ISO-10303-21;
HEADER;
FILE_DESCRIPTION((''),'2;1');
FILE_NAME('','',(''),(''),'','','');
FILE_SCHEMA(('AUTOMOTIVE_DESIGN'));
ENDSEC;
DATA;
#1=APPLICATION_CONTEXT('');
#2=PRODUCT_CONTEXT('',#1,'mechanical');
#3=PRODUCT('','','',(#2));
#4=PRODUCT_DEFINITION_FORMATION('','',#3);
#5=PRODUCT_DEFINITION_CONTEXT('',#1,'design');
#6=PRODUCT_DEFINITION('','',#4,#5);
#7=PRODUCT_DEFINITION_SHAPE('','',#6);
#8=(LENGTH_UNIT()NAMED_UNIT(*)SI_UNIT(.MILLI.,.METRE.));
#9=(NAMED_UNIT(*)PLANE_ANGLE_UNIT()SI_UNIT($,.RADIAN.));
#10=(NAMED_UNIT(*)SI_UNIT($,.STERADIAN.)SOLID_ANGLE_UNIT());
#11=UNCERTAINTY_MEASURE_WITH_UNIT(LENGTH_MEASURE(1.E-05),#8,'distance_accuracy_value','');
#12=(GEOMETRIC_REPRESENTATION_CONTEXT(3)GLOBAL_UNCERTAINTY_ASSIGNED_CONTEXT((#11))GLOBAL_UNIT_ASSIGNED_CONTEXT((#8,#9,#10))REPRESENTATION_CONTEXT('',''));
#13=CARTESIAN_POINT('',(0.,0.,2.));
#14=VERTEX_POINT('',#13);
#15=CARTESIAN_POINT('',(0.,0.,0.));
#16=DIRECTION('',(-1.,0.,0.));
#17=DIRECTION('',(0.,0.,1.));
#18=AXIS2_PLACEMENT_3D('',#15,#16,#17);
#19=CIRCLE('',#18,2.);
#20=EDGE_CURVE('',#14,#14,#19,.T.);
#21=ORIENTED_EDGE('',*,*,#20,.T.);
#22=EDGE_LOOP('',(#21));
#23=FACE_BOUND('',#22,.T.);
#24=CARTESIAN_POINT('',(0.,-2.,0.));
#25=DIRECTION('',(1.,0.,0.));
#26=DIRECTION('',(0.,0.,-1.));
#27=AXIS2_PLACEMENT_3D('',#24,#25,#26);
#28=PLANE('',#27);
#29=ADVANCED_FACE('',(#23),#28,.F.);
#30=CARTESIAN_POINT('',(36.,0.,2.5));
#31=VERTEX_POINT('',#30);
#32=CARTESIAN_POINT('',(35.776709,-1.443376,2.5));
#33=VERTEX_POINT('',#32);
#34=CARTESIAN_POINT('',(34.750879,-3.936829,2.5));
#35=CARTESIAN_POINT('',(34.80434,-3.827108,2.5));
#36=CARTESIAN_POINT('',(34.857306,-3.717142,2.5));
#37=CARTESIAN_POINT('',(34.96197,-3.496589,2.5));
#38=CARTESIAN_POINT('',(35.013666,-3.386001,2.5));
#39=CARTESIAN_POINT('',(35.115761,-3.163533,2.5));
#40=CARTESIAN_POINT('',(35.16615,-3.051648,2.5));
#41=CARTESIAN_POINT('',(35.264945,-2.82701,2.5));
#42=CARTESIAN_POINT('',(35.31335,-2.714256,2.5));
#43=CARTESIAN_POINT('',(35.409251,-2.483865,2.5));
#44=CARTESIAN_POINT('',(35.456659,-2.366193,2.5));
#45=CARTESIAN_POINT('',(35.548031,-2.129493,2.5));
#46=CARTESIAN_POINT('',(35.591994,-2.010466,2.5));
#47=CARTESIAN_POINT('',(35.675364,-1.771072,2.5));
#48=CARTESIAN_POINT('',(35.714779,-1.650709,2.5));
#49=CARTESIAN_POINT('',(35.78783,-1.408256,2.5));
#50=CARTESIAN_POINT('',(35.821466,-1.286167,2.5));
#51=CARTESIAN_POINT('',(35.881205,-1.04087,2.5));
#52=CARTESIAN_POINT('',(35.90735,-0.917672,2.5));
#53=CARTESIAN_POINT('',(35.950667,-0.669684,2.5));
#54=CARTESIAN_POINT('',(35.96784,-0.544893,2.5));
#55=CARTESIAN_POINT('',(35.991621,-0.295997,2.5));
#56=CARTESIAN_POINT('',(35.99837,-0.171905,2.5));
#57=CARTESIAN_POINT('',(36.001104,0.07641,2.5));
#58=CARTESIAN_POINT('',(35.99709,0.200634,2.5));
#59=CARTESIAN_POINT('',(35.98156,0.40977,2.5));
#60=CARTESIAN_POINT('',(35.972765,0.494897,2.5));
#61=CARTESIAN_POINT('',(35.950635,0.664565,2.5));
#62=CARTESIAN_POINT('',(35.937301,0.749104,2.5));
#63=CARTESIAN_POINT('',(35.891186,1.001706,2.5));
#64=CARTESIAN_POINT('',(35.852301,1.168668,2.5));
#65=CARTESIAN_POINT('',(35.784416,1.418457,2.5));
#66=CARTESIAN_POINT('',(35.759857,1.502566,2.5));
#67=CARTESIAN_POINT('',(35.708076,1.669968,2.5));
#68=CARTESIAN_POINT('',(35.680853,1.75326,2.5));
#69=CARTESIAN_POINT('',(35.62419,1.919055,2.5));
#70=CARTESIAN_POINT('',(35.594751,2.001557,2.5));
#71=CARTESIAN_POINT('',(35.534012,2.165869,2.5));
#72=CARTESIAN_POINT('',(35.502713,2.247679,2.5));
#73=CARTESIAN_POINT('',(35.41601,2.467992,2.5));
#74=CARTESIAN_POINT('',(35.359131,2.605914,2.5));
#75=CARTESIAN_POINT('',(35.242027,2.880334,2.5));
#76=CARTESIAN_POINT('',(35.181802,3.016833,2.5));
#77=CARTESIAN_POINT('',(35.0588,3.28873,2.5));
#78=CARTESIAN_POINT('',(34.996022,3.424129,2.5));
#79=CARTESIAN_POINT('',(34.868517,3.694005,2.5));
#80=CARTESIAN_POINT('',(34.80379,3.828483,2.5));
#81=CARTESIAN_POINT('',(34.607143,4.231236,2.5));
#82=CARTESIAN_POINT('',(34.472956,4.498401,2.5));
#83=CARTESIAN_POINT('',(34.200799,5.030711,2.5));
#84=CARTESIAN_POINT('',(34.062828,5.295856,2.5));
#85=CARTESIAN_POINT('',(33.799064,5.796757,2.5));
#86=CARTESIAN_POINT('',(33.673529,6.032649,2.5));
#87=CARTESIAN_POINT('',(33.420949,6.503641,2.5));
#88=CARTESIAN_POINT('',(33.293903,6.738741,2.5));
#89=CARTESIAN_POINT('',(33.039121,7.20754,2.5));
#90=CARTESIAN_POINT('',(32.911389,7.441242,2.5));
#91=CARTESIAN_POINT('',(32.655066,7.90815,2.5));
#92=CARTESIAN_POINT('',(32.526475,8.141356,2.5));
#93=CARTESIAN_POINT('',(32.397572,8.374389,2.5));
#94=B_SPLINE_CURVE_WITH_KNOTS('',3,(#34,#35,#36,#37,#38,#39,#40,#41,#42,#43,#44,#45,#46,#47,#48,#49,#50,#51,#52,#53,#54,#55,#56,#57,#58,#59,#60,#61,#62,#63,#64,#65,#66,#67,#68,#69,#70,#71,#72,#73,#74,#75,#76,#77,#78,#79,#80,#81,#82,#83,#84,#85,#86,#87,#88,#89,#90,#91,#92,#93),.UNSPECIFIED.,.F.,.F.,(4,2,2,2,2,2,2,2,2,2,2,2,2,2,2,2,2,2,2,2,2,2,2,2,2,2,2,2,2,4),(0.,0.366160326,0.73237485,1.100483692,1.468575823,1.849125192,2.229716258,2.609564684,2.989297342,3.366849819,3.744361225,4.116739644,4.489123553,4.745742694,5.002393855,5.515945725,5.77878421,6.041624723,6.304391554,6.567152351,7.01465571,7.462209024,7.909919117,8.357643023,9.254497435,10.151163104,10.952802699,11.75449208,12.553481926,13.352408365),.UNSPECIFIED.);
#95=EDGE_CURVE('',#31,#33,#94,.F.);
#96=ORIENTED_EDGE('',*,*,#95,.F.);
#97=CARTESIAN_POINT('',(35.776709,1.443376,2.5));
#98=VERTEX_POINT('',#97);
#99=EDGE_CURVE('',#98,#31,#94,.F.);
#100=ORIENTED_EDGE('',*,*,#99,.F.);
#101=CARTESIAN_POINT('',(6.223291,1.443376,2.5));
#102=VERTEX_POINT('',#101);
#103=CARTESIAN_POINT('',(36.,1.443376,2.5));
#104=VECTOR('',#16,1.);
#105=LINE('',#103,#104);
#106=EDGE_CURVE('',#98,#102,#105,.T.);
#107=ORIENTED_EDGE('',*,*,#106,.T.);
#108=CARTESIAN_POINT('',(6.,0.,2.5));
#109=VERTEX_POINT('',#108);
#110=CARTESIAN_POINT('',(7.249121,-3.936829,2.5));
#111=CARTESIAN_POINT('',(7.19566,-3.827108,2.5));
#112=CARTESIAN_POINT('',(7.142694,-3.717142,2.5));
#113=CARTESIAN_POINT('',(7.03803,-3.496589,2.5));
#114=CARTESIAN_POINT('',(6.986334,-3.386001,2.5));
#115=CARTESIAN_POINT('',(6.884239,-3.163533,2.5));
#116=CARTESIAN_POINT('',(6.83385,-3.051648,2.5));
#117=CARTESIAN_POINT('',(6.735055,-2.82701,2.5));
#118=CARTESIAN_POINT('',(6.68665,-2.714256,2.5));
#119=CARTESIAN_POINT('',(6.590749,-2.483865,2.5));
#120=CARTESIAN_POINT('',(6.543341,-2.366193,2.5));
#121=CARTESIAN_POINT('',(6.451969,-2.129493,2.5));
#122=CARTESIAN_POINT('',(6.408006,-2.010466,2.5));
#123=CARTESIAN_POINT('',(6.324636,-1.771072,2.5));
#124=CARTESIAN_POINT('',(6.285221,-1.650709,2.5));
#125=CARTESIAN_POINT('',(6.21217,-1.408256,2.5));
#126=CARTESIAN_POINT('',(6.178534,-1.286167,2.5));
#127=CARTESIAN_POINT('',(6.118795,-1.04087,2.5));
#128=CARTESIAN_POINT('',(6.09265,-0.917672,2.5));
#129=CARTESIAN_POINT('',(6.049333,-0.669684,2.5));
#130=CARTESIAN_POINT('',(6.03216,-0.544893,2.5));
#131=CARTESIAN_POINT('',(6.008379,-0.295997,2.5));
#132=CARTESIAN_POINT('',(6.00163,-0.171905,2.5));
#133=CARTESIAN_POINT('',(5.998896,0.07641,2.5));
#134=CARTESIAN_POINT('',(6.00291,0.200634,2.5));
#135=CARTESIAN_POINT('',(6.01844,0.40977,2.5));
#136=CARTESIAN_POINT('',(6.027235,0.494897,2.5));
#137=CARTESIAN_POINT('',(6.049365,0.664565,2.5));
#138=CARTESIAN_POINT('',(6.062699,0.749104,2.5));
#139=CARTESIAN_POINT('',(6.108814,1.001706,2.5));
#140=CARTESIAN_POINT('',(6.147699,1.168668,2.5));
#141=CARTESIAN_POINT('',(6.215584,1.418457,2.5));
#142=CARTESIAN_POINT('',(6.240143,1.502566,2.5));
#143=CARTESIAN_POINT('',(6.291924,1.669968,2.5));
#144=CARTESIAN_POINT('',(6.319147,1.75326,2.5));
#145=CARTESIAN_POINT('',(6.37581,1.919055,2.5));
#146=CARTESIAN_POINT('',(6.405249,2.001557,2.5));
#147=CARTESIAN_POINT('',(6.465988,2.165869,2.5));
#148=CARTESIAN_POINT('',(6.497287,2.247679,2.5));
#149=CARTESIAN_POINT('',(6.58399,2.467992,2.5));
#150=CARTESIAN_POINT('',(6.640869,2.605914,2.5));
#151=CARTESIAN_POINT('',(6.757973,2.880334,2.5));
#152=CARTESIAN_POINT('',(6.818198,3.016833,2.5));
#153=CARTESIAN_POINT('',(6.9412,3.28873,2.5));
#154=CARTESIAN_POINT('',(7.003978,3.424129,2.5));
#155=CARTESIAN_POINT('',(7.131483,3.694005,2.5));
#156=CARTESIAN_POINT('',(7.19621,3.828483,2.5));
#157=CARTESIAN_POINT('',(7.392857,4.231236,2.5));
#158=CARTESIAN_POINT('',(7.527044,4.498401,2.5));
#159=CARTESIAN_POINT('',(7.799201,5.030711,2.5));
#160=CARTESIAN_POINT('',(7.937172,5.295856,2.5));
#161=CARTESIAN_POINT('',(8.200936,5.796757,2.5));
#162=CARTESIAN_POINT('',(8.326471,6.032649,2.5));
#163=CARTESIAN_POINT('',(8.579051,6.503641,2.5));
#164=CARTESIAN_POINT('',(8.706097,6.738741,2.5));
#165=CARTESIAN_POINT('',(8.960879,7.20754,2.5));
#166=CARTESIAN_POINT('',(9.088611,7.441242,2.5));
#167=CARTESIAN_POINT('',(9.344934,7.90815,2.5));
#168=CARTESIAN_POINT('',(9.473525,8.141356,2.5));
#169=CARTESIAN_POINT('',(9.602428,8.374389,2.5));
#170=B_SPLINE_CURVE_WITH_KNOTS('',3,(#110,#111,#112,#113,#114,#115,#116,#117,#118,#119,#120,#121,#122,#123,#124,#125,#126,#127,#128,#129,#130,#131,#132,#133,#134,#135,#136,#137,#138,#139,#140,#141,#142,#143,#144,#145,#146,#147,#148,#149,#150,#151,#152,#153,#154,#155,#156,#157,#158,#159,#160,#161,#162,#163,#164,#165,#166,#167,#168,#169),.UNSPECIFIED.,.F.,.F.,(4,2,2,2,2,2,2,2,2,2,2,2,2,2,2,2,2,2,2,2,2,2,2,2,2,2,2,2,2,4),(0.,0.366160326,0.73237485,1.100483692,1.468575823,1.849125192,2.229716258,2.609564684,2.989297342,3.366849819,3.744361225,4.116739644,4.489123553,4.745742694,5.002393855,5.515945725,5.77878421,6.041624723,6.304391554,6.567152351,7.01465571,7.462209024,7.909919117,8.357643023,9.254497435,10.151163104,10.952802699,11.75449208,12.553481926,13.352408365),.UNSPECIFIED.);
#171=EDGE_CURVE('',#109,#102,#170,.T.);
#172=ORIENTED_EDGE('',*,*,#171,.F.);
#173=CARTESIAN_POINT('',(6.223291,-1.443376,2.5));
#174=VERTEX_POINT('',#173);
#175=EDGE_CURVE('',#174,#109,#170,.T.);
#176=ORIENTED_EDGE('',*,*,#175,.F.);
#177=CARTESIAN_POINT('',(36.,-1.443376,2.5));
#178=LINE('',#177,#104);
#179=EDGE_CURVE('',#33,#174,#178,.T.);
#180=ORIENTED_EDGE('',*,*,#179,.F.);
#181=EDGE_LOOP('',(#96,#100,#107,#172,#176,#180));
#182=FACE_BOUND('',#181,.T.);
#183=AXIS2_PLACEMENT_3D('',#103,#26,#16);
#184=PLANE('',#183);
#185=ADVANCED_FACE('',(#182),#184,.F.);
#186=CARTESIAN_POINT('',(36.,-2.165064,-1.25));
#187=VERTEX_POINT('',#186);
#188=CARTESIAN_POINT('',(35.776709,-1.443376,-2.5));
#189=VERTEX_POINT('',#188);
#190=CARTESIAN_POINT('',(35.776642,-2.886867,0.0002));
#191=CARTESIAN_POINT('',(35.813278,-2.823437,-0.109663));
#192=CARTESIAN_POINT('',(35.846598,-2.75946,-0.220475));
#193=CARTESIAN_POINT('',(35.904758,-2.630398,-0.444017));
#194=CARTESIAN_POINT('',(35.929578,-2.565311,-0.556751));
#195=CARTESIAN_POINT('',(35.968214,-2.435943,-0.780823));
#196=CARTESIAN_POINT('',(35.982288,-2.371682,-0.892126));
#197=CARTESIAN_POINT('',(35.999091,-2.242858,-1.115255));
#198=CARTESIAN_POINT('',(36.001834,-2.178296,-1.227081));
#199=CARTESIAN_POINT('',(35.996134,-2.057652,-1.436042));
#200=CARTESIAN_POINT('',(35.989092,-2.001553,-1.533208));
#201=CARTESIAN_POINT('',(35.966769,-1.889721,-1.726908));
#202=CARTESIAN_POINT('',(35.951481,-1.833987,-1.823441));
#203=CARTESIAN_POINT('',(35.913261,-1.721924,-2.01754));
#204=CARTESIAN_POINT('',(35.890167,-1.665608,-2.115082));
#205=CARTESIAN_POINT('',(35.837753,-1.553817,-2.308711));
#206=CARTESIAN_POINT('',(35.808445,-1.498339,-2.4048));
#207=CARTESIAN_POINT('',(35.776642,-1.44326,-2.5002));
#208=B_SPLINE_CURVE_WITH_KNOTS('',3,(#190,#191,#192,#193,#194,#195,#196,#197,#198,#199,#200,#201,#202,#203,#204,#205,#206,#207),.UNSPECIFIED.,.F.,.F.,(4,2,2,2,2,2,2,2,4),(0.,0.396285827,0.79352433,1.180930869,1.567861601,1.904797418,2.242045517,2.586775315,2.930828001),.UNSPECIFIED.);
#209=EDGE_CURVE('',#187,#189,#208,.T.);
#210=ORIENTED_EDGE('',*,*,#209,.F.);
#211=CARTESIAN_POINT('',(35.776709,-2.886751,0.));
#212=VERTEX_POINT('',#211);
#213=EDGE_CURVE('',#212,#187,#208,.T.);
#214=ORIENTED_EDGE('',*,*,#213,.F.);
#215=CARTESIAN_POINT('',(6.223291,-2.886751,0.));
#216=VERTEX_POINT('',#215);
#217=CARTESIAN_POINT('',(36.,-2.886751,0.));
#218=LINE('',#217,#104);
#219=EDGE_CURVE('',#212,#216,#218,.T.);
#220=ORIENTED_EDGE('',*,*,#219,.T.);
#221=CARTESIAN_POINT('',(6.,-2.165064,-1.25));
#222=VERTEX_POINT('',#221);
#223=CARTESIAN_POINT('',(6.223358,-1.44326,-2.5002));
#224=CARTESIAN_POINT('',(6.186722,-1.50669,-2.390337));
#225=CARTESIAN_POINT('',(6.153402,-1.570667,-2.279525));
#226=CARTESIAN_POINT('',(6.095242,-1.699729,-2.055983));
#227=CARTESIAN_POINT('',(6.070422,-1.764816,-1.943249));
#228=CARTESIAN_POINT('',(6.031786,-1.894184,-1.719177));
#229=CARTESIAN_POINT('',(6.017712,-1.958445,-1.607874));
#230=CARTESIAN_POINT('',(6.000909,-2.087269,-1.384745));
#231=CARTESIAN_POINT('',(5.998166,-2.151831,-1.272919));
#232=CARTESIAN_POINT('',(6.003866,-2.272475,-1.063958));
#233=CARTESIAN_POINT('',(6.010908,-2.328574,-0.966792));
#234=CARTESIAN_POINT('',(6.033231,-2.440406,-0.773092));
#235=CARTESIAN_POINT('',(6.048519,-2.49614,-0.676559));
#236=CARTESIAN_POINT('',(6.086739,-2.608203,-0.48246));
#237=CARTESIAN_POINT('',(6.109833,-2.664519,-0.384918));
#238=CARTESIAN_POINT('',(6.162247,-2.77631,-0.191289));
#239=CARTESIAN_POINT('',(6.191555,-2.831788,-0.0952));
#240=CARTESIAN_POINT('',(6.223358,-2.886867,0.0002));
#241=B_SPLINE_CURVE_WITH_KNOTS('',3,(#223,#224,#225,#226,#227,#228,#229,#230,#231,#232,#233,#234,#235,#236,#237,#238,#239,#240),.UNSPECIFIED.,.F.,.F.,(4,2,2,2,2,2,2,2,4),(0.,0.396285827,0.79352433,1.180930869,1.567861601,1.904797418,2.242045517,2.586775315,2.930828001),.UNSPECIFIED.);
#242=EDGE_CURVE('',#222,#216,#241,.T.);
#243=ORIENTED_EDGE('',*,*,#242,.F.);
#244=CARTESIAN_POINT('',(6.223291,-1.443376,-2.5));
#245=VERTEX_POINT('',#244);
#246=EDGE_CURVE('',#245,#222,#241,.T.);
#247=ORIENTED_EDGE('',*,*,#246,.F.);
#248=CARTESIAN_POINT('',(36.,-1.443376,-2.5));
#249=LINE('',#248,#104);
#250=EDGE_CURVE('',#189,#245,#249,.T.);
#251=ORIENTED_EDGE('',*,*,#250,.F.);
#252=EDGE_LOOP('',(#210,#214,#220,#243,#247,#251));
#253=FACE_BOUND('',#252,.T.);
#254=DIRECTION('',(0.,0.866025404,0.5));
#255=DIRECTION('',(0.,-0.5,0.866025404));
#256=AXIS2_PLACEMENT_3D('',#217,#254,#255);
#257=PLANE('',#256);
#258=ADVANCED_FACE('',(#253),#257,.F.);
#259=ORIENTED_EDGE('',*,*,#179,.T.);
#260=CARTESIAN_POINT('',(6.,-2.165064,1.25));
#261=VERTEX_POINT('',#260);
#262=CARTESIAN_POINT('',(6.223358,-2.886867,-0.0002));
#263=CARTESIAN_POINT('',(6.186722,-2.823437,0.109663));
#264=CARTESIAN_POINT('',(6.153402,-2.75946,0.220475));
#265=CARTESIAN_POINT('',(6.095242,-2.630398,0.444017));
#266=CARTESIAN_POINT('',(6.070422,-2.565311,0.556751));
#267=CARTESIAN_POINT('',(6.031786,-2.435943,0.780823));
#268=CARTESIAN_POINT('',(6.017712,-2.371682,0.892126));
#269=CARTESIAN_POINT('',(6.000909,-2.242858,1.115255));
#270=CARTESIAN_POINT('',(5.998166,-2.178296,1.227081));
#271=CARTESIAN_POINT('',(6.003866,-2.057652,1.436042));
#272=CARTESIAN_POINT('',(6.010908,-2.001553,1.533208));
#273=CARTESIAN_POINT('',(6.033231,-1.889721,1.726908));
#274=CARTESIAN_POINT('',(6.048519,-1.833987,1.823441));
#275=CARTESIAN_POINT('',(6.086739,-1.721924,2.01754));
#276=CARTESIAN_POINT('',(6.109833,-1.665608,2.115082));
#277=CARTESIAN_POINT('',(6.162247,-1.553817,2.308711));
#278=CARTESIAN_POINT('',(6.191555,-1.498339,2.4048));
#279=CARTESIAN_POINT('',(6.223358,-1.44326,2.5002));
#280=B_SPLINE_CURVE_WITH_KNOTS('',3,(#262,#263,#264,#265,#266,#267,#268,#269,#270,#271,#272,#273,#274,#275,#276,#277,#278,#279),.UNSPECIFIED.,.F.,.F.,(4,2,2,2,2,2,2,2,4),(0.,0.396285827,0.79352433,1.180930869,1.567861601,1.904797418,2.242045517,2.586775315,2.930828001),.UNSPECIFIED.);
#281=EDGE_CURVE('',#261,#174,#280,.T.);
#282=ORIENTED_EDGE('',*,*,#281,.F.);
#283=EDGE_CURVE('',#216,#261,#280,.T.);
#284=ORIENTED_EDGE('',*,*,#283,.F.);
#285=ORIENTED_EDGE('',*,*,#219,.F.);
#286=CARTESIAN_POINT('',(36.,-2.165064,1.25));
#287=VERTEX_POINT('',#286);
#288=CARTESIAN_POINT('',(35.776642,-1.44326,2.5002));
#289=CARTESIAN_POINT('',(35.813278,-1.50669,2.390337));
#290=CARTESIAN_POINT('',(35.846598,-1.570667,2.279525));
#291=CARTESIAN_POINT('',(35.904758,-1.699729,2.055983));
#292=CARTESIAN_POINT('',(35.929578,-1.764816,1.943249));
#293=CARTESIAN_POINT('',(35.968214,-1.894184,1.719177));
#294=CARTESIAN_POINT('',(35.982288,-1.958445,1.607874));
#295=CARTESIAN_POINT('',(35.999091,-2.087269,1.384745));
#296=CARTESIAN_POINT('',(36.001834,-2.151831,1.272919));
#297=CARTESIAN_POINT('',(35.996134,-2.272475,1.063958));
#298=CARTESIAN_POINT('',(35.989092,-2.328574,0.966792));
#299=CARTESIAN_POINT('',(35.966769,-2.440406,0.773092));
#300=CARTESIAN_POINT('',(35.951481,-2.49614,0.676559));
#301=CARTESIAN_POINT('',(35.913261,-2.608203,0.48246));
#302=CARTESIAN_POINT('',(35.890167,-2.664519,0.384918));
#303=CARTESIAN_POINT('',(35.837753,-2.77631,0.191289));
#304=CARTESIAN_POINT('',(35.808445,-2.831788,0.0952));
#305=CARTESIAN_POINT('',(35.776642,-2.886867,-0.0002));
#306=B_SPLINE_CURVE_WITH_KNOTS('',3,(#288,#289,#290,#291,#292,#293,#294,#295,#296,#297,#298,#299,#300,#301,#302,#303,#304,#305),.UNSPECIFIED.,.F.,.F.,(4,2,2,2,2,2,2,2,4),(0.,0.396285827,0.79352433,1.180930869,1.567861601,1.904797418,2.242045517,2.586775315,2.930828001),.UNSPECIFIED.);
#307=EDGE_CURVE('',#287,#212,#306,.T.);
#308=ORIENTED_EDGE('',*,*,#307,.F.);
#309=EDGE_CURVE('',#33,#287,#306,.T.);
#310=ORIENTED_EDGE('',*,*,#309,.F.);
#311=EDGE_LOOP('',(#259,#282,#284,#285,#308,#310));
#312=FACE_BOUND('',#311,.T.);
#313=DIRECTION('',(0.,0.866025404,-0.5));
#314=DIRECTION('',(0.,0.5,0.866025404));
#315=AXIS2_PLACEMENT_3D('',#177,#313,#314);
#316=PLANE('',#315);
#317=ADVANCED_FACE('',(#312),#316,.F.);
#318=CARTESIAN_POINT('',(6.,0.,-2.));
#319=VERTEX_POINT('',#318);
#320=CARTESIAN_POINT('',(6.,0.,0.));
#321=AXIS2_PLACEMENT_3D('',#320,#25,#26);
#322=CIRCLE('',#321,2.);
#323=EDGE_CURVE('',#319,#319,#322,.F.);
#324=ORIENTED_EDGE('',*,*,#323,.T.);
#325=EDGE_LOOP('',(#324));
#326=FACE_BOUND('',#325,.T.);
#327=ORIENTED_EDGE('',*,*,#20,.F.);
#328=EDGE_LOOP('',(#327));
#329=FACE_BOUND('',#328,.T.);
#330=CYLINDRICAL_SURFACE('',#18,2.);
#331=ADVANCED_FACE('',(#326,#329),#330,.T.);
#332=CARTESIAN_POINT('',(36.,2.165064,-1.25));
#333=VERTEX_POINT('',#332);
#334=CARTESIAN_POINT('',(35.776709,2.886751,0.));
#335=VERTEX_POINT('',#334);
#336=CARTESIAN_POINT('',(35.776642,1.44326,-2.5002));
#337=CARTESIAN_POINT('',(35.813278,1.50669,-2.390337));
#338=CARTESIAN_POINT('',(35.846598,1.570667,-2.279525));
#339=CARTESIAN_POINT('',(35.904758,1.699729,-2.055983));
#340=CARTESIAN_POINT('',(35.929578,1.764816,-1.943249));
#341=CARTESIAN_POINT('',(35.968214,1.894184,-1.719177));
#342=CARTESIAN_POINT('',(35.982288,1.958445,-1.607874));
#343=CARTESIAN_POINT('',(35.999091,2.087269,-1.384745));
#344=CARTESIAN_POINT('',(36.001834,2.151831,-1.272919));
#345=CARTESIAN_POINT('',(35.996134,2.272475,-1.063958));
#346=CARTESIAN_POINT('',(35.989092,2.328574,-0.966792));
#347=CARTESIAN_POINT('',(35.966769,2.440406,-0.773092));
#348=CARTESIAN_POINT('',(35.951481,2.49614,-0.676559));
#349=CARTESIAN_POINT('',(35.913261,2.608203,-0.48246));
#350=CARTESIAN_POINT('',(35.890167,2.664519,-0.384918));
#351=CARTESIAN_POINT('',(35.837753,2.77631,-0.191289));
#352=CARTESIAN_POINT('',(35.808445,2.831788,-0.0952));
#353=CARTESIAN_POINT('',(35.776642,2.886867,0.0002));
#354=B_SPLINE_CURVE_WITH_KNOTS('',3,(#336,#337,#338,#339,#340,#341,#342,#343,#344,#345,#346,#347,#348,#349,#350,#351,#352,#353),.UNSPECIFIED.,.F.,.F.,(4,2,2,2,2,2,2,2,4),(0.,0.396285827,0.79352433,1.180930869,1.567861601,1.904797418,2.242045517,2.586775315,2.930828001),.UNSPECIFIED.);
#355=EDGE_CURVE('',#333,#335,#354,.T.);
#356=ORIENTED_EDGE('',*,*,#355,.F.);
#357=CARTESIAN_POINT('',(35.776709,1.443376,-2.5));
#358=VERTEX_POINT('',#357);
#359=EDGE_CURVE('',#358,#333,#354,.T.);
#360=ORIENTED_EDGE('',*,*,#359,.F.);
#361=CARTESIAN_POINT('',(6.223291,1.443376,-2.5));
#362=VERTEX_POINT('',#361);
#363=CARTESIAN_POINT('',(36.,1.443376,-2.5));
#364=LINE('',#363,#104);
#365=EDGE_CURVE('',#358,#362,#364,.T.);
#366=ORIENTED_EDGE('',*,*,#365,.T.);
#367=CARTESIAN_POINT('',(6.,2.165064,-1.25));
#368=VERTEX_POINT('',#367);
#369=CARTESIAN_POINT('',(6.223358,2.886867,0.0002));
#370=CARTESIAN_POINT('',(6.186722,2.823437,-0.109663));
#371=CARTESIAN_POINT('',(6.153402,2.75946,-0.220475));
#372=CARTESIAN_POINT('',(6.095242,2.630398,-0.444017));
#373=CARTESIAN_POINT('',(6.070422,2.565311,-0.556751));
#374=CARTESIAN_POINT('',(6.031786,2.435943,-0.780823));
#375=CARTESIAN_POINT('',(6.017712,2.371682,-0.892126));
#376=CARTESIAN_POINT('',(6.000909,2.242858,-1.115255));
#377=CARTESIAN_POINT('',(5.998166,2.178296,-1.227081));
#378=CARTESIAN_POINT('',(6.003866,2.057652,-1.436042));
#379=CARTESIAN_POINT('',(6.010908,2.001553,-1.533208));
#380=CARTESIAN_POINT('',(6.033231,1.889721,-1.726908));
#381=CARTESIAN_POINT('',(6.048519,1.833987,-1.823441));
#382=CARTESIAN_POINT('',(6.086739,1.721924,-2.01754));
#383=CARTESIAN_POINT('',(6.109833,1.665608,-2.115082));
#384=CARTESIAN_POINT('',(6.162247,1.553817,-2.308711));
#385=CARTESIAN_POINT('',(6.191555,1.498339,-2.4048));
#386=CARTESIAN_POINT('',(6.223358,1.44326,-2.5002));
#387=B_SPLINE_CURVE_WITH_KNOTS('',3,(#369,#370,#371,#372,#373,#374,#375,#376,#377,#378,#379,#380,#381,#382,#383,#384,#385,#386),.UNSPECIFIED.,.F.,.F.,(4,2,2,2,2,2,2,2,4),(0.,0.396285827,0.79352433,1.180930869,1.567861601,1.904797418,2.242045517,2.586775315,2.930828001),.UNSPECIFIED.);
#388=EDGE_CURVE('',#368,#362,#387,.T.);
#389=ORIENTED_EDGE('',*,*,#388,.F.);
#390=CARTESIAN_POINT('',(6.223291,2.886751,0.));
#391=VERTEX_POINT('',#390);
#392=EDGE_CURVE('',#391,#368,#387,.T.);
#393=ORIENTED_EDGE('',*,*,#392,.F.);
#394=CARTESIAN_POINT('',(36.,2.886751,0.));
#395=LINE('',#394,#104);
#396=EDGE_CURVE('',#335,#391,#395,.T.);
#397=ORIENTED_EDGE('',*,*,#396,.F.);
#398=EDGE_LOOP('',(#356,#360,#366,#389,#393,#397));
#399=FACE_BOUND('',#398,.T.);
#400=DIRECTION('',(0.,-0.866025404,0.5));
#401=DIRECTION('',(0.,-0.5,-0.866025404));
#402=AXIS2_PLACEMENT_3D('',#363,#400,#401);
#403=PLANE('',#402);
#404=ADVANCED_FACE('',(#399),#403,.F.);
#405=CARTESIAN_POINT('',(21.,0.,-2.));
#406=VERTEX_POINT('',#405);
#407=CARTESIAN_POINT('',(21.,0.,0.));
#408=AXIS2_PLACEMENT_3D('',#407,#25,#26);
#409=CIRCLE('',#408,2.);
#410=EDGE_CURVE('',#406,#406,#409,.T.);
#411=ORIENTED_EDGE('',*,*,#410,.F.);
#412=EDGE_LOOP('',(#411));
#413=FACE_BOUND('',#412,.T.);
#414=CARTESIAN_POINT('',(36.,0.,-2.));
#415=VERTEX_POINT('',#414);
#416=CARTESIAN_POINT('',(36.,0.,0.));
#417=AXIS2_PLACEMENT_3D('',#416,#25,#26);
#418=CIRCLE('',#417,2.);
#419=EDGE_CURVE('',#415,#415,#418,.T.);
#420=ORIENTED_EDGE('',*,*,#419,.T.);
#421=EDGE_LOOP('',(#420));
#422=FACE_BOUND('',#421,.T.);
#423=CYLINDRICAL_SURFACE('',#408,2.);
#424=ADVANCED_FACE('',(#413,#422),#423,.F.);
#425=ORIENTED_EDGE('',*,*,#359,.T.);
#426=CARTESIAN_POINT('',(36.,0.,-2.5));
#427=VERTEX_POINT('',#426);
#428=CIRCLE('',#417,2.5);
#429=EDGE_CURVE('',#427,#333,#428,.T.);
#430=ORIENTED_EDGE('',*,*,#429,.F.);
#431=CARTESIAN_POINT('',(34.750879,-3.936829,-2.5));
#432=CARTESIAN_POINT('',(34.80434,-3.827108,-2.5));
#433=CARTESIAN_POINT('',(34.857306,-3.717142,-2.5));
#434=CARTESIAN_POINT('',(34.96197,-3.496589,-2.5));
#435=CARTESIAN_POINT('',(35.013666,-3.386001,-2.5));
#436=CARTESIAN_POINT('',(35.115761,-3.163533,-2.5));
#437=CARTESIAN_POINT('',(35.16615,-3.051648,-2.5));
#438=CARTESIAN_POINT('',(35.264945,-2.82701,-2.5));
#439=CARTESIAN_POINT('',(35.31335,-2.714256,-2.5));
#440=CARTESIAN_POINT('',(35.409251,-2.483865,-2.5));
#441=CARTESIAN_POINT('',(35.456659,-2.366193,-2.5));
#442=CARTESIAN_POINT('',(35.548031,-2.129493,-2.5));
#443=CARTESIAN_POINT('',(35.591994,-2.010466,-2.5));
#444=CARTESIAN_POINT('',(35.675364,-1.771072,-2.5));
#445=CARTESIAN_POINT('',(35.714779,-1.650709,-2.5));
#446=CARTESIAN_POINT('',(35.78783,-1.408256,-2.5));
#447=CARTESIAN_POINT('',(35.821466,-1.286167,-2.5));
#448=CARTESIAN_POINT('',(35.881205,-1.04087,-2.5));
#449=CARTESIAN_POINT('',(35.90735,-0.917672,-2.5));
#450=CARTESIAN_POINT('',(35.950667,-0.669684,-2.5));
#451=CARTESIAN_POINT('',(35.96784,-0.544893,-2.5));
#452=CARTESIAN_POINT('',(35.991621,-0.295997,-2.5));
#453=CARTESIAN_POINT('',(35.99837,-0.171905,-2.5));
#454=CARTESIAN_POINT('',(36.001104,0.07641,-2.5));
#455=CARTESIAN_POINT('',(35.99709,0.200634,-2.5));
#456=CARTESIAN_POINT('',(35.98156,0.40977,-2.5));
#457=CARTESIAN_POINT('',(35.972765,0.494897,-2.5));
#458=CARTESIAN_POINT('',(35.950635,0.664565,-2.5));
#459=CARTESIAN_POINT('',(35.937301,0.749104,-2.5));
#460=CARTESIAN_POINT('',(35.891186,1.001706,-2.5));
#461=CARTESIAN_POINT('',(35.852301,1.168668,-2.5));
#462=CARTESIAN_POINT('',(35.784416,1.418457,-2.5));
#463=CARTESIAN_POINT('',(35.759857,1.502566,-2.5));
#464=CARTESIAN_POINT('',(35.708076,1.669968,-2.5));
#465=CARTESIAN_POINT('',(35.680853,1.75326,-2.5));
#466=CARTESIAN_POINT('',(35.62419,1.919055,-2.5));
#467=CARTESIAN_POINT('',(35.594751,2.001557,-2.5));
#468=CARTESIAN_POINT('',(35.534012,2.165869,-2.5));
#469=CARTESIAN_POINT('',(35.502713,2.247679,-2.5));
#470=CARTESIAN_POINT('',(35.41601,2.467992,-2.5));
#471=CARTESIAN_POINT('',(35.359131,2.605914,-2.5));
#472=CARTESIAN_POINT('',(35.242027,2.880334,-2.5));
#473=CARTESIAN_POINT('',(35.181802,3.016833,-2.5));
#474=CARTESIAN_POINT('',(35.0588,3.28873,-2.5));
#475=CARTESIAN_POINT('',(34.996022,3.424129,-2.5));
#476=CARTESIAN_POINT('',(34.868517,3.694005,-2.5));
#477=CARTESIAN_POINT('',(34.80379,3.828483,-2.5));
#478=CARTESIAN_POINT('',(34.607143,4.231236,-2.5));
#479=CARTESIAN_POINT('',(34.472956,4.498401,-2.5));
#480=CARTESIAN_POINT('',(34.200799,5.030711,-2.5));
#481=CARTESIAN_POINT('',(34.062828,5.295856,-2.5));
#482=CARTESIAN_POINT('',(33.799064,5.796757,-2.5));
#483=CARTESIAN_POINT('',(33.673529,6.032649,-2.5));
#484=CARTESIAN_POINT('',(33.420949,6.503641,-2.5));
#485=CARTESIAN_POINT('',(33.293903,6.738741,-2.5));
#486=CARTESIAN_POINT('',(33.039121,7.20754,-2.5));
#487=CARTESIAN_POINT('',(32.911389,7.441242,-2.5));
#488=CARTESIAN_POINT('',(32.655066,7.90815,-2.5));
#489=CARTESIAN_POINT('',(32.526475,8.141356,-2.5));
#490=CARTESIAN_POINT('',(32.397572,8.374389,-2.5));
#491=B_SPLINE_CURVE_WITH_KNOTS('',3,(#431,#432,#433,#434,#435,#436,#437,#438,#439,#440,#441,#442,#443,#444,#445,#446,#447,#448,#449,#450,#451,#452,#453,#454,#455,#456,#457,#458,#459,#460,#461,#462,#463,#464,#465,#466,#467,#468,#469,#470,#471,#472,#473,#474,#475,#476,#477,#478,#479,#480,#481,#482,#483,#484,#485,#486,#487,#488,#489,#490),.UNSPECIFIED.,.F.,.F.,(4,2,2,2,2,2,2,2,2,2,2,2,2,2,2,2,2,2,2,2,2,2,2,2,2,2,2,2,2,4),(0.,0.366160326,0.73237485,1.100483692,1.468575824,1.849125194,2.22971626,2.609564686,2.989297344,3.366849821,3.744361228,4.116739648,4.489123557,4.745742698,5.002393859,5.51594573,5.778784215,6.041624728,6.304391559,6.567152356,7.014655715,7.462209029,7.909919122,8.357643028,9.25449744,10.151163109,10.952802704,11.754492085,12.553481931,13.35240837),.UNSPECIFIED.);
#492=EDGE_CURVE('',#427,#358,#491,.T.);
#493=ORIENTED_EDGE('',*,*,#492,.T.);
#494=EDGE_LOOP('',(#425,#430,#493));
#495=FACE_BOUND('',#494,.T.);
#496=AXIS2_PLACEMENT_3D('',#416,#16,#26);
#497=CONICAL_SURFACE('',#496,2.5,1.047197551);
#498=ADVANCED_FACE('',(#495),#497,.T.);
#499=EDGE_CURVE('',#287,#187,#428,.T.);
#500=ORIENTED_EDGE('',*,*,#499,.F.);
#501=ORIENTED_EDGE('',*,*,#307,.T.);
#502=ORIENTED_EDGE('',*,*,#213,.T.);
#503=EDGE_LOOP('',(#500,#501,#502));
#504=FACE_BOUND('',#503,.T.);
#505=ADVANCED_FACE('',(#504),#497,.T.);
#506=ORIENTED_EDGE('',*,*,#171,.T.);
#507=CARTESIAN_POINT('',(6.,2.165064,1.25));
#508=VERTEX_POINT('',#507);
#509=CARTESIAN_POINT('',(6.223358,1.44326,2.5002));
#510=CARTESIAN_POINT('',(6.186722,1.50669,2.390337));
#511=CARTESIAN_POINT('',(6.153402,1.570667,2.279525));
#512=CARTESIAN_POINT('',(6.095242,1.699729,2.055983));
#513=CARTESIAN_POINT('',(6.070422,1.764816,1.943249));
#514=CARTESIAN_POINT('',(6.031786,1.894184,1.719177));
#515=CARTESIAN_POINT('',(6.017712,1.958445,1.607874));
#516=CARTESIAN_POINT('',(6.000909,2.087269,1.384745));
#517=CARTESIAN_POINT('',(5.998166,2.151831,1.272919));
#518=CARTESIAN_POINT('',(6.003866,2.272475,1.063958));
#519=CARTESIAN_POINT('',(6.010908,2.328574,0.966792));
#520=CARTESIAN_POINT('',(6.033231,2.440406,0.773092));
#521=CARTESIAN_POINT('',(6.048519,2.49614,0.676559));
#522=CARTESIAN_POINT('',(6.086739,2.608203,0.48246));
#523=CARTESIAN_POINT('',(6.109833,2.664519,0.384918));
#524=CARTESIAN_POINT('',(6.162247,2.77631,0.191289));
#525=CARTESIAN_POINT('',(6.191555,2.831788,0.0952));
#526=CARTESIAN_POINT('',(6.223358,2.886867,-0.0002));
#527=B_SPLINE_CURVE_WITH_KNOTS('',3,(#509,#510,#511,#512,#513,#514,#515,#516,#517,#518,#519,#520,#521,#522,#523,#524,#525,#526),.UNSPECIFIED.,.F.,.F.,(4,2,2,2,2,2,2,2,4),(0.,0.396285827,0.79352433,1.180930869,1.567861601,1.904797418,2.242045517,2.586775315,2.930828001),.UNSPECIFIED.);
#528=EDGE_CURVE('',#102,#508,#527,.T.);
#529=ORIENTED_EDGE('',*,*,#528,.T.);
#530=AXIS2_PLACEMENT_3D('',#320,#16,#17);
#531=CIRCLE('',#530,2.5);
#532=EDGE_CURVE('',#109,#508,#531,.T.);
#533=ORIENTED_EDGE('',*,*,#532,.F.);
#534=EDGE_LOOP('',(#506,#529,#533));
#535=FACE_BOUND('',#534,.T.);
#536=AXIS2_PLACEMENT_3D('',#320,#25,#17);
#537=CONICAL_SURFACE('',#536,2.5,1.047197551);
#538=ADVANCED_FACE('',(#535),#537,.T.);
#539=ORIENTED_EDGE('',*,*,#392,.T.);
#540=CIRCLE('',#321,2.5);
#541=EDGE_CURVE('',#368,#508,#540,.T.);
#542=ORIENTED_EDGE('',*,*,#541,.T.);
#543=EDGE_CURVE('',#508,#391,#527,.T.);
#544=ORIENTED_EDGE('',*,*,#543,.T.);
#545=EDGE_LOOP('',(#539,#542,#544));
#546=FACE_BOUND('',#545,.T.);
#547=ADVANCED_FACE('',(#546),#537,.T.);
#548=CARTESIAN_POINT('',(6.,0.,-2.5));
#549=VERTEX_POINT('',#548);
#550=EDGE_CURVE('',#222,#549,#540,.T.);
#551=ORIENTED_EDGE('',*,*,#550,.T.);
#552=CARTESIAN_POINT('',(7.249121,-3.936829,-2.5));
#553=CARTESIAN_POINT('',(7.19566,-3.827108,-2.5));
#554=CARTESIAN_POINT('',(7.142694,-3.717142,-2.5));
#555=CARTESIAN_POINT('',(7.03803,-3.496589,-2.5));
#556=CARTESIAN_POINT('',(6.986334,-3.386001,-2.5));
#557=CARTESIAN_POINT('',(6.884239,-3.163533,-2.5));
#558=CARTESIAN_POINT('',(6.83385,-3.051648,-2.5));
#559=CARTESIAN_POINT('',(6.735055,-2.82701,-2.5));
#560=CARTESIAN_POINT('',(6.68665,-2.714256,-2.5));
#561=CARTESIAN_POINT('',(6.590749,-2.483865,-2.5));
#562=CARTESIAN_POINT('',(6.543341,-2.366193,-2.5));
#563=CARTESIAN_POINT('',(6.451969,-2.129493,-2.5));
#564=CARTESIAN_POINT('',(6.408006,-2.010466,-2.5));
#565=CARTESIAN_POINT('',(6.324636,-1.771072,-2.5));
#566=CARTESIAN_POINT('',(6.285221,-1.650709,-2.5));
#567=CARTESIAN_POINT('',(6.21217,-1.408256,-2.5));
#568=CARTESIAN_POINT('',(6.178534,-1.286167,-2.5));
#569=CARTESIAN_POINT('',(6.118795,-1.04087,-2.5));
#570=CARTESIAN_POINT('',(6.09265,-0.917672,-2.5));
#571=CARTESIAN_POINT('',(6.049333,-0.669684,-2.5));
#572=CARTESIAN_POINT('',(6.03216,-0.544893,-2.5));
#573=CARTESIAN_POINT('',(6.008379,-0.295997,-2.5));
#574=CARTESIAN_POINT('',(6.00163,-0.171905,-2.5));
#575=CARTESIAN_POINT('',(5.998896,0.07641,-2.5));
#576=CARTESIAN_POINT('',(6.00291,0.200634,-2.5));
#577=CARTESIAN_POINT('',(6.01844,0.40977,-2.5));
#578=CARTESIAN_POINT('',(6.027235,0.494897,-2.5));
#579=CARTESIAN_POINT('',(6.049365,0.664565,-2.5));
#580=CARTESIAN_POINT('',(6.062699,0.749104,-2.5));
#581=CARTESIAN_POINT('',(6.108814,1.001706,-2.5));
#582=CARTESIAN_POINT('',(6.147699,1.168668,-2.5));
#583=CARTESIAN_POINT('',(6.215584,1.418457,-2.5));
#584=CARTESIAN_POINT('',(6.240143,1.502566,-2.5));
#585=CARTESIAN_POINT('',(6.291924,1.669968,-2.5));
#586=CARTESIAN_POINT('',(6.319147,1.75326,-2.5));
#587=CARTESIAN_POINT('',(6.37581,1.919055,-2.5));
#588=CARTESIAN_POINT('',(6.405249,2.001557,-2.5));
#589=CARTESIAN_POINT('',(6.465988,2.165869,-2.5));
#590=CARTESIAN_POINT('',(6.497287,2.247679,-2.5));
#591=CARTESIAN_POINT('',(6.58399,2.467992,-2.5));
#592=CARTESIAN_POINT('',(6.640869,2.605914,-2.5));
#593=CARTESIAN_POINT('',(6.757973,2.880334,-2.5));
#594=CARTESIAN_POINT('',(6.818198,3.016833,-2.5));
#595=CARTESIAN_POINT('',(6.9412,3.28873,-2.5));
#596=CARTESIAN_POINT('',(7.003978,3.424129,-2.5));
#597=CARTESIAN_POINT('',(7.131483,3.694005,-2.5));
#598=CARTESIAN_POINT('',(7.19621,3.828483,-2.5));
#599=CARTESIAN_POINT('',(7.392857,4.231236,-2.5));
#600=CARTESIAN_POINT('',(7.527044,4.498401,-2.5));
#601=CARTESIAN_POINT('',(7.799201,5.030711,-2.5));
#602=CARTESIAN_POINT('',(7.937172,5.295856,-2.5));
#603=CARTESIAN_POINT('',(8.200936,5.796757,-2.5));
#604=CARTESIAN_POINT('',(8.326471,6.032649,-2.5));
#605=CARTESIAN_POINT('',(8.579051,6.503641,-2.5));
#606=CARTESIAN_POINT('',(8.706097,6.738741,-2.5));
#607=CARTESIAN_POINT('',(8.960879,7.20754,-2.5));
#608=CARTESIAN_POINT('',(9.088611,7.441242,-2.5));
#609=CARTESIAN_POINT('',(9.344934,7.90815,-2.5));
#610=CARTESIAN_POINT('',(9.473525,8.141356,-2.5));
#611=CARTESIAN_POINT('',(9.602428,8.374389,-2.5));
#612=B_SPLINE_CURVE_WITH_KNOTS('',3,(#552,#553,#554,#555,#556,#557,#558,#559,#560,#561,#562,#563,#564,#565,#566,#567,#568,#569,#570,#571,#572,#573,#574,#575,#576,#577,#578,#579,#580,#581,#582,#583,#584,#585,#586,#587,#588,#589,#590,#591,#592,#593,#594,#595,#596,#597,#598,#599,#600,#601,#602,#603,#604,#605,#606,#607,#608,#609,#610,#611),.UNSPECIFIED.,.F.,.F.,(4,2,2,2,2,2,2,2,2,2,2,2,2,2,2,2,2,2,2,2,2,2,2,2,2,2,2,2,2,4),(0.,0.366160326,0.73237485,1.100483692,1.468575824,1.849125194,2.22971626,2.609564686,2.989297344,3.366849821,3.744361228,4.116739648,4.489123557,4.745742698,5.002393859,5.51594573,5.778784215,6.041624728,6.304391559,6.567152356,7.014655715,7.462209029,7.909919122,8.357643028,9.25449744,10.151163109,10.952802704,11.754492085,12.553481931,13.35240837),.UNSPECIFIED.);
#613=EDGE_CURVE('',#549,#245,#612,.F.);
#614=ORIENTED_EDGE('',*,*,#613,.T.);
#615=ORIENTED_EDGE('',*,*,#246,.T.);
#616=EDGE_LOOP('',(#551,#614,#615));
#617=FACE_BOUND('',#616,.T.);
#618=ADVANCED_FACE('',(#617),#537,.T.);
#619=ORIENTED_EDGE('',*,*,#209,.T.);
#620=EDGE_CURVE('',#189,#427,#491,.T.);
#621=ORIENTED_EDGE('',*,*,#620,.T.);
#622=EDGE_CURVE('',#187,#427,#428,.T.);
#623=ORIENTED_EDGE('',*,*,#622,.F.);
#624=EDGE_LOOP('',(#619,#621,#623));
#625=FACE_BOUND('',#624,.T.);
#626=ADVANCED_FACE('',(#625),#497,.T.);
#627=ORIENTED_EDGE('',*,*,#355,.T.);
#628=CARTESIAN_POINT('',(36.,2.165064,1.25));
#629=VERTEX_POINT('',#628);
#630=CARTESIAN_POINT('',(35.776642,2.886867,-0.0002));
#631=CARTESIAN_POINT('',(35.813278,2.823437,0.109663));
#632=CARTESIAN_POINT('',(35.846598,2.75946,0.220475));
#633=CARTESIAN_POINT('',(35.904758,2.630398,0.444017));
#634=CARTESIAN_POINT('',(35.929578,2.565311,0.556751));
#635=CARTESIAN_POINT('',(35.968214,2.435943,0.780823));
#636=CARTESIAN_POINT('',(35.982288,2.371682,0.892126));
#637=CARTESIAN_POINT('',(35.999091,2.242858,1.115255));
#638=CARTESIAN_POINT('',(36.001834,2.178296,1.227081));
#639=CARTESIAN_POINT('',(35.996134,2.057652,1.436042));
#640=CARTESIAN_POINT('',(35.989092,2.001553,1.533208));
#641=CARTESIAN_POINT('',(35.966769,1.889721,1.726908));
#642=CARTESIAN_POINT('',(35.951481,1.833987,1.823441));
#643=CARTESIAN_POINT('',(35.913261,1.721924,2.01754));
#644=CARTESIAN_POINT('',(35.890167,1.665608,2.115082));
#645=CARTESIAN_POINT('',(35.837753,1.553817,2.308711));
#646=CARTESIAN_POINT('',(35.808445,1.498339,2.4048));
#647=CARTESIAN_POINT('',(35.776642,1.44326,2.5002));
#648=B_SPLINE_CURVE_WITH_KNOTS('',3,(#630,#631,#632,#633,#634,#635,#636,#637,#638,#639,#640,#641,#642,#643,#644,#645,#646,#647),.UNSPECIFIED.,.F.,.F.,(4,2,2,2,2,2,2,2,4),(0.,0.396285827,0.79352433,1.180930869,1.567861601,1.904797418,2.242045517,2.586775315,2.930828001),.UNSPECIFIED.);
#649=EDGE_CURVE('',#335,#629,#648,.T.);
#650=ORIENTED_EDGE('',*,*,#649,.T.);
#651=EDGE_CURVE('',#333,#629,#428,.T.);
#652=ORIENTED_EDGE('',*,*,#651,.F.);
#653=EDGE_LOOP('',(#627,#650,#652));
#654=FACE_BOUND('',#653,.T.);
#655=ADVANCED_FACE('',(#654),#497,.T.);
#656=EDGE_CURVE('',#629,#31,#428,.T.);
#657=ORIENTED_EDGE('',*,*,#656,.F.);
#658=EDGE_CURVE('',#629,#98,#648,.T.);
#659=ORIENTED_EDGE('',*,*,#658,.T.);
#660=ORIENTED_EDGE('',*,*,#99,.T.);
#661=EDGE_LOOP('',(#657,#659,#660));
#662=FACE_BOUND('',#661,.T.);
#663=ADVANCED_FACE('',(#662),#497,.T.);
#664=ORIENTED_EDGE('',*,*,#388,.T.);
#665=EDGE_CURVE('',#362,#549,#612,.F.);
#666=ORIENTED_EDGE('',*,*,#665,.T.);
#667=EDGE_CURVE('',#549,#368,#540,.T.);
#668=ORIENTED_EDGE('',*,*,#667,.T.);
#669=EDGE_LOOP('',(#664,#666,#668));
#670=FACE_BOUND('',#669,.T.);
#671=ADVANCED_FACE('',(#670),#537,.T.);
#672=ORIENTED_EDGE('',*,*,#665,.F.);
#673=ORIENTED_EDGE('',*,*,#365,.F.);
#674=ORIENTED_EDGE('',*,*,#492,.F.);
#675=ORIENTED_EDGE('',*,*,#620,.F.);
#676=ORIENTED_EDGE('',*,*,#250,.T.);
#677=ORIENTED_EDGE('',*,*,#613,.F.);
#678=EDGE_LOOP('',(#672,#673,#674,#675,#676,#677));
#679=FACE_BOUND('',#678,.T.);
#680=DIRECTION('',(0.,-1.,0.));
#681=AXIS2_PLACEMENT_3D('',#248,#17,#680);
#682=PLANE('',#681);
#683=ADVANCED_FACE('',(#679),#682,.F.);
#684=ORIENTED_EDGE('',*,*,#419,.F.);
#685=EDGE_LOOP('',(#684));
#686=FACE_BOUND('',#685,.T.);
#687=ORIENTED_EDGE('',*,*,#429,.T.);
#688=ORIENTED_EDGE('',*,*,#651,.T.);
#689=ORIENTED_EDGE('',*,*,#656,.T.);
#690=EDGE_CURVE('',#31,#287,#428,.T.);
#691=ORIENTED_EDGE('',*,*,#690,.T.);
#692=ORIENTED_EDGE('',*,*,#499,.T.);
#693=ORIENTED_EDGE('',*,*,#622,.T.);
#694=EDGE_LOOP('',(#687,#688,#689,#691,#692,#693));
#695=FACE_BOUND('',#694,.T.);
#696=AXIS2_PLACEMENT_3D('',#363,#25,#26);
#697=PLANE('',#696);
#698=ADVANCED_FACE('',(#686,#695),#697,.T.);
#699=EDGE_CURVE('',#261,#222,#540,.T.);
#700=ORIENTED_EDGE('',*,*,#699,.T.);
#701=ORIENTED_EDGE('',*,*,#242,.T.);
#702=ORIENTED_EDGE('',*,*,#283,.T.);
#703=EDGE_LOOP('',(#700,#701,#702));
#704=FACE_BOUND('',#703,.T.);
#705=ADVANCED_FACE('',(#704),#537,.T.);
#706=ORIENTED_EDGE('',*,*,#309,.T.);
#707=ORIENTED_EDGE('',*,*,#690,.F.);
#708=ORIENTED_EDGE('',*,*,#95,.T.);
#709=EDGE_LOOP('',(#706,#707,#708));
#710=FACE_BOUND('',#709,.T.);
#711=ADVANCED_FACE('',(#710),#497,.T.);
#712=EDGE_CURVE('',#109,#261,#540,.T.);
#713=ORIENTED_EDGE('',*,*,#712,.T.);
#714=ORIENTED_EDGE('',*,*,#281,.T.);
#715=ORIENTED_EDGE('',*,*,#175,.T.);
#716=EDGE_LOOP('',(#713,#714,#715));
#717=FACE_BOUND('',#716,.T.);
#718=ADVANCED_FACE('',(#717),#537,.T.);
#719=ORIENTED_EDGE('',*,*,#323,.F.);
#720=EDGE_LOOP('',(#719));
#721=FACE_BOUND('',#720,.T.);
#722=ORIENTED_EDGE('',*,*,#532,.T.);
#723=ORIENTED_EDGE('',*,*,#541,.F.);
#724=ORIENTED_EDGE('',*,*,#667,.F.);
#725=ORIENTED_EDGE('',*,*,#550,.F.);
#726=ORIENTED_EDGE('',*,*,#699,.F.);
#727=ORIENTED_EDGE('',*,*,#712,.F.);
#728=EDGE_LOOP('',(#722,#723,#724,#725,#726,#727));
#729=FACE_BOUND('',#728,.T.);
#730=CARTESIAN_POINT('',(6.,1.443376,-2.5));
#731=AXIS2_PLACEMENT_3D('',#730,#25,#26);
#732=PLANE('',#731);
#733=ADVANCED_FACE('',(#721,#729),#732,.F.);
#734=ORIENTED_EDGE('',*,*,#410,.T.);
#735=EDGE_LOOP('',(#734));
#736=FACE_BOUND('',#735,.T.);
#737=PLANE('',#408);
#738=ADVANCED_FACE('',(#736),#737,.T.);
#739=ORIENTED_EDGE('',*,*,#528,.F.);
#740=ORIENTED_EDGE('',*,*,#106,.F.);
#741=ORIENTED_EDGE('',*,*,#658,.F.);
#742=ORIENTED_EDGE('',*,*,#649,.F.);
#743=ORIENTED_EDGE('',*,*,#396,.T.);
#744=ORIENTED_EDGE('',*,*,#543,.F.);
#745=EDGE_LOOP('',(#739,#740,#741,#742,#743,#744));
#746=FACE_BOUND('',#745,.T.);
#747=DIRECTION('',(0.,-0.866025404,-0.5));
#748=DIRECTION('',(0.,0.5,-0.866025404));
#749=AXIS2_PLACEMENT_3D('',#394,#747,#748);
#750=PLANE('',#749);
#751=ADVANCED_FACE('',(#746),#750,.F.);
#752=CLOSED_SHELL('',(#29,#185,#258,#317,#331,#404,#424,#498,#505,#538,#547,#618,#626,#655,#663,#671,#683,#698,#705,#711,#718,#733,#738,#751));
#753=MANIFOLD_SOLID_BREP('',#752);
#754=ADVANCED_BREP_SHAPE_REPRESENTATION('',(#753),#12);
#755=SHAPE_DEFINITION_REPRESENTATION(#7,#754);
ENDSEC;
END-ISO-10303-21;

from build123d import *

# Parameters (mm, degrees)
EXTRUDE_START       = 6
EXTRUDE_1_DEPTH     = 30
SKETCH_4_R          = 32
SKETCH_4_R_2        = 2.5
CUT_EXTRUDE_1_DEPTH = 2
CUT_EXTRUDE_1_DRAFT = -60
SKETCH_5_R          = 32
SKETCH_5_R_2        = 2.5
CUT_EXTRUDE_2_DEPTH = 2
CUT_EXTRUDE_2_DRAFT = -60
SKETCH_6_W          = 6
SKETCH_6_H          = 2
EXTRUDE1_START      = -15
SKETCH1_R           = 2
EXTRUDE1_DEPTH      = 15


with BuildPart() as part:
    # 草图3 → 凸台-拉伸1 (new body)
    with BuildSketch(Plane(origin=(0, 0, 0), x_dir=(0, 0, -1), z_dir=(1, 0, 0)).offset(EXTRUDE_START)):
        Polygon((2.5, 1.443375673), (0, 2.886751346), (-2.5, 1.443375673), (-2.5, -1.443375673), (0, -2.886751346), (2.5, -1.443375673), align=None)
    extrude(amount=EXTRUDE_1_DEPTH)


with BuildPart() as cut_extrude_1_tool:
    # 草图4 → 切除-拉伸1 (with draft: the straight prism first)
    with BuildSketch(Plane.ZY.offset(-6)):
        Circle(SKETCH_4_R)
        Circle(SKETCH_4_R_2, mode=Mode.SUBTRACT)
    extrude(amount=-CUT_EXTRUDE_1_DEPTH)
    # 切除-拉伸1: the draft: its side faces are tilted about the plane it starts from
    cut_extrude_1_sides = [cut_extrude_1_tool.faces().sort_by_distance(p)[0] for p in [
        (7, 0, -32),
        (7, 0, -2.5),
    ]]
    draft(cut_extrude_1_sides, Plane.ZY.offset(-6), CUT_EXTRUDE_1_DRAFT)


with BuildPart() as part_1:
    add(part.part)

    # 切除-拉伸1: cut by cut_extrude_1_tool
    add(cut_extrude_1_tool.part, mode=Mode.SUBTRACT)


with BuildPart() as cut_extrude_2_tool:
    # 草图5 → 切除-拉伸2 (with draft: the straight prism first)
    with BuildSketch(Plane(origin=(36, 0, 0), x_dir=(0, 0, -1), z_dir=(1, 0, 0))):
        Circle(SKETCH_5_R)
        Circle(SKETCH_5_R_2, mode=Mode.SUBTRACT)
    extrude(amount=-CUT_EXTRUDE_2_DEPTH)
    # 切除-拉伸2: the draft: its side faces are tilted about the plane it starts from
    cut_extrude_2_sides = [cut_extrude_2_tool.faces().sort_by_distance(p)[0] for p in [
        (35, 0, 32),
        (35, 0, 2.5),
    ]]
    draft(cut_extrude_2_sides, Plane(origin=(36, 0, 0), x_dir=(0, 0, -1), z_dir=(1, 0, 0)), CUT_EXTRUDE_2_DRAFT)


with BuildPart() as part_2:
    add(part_1.part)

    # 切除-拉伸2: cut by cut_extrude_2_tool
    add(cut_extrude_2_tool.part, mode=Mode.SUBTRACT)

    # 草图6 → 旋转1 (revolve)
    with BuildSketch(Plane.XY, mode=Mode.PRIVATE) as revolve_1_sk:
        with Locations((3, 1)):
            Rectangle(SKETCH_6_W, SKETCH_6_H)
    revolve(revolve_1_sk.sketch.rotate(Axis((0, 0, 0), (1, 0, 0)), 90), axis=Axis((0, 0, 0), (1, 0, 0)))

    # Sketch1 → Extrude1 (cut)
    with BuildSketch(Plane(origin=(36, 0, 0), x_dir=(0, 0, -1), z_dir=(1, 0, 0)).offset(EXTRUDE1_START)):
        with Locations(Location((0, 0, 0), (0, 0, 180))):
            Circle(SKETCH1_R)
    extrude(amount=EXTRUDE1_DEPTH, mode=Mode.SUBTRACT)


solid = part_2.part
